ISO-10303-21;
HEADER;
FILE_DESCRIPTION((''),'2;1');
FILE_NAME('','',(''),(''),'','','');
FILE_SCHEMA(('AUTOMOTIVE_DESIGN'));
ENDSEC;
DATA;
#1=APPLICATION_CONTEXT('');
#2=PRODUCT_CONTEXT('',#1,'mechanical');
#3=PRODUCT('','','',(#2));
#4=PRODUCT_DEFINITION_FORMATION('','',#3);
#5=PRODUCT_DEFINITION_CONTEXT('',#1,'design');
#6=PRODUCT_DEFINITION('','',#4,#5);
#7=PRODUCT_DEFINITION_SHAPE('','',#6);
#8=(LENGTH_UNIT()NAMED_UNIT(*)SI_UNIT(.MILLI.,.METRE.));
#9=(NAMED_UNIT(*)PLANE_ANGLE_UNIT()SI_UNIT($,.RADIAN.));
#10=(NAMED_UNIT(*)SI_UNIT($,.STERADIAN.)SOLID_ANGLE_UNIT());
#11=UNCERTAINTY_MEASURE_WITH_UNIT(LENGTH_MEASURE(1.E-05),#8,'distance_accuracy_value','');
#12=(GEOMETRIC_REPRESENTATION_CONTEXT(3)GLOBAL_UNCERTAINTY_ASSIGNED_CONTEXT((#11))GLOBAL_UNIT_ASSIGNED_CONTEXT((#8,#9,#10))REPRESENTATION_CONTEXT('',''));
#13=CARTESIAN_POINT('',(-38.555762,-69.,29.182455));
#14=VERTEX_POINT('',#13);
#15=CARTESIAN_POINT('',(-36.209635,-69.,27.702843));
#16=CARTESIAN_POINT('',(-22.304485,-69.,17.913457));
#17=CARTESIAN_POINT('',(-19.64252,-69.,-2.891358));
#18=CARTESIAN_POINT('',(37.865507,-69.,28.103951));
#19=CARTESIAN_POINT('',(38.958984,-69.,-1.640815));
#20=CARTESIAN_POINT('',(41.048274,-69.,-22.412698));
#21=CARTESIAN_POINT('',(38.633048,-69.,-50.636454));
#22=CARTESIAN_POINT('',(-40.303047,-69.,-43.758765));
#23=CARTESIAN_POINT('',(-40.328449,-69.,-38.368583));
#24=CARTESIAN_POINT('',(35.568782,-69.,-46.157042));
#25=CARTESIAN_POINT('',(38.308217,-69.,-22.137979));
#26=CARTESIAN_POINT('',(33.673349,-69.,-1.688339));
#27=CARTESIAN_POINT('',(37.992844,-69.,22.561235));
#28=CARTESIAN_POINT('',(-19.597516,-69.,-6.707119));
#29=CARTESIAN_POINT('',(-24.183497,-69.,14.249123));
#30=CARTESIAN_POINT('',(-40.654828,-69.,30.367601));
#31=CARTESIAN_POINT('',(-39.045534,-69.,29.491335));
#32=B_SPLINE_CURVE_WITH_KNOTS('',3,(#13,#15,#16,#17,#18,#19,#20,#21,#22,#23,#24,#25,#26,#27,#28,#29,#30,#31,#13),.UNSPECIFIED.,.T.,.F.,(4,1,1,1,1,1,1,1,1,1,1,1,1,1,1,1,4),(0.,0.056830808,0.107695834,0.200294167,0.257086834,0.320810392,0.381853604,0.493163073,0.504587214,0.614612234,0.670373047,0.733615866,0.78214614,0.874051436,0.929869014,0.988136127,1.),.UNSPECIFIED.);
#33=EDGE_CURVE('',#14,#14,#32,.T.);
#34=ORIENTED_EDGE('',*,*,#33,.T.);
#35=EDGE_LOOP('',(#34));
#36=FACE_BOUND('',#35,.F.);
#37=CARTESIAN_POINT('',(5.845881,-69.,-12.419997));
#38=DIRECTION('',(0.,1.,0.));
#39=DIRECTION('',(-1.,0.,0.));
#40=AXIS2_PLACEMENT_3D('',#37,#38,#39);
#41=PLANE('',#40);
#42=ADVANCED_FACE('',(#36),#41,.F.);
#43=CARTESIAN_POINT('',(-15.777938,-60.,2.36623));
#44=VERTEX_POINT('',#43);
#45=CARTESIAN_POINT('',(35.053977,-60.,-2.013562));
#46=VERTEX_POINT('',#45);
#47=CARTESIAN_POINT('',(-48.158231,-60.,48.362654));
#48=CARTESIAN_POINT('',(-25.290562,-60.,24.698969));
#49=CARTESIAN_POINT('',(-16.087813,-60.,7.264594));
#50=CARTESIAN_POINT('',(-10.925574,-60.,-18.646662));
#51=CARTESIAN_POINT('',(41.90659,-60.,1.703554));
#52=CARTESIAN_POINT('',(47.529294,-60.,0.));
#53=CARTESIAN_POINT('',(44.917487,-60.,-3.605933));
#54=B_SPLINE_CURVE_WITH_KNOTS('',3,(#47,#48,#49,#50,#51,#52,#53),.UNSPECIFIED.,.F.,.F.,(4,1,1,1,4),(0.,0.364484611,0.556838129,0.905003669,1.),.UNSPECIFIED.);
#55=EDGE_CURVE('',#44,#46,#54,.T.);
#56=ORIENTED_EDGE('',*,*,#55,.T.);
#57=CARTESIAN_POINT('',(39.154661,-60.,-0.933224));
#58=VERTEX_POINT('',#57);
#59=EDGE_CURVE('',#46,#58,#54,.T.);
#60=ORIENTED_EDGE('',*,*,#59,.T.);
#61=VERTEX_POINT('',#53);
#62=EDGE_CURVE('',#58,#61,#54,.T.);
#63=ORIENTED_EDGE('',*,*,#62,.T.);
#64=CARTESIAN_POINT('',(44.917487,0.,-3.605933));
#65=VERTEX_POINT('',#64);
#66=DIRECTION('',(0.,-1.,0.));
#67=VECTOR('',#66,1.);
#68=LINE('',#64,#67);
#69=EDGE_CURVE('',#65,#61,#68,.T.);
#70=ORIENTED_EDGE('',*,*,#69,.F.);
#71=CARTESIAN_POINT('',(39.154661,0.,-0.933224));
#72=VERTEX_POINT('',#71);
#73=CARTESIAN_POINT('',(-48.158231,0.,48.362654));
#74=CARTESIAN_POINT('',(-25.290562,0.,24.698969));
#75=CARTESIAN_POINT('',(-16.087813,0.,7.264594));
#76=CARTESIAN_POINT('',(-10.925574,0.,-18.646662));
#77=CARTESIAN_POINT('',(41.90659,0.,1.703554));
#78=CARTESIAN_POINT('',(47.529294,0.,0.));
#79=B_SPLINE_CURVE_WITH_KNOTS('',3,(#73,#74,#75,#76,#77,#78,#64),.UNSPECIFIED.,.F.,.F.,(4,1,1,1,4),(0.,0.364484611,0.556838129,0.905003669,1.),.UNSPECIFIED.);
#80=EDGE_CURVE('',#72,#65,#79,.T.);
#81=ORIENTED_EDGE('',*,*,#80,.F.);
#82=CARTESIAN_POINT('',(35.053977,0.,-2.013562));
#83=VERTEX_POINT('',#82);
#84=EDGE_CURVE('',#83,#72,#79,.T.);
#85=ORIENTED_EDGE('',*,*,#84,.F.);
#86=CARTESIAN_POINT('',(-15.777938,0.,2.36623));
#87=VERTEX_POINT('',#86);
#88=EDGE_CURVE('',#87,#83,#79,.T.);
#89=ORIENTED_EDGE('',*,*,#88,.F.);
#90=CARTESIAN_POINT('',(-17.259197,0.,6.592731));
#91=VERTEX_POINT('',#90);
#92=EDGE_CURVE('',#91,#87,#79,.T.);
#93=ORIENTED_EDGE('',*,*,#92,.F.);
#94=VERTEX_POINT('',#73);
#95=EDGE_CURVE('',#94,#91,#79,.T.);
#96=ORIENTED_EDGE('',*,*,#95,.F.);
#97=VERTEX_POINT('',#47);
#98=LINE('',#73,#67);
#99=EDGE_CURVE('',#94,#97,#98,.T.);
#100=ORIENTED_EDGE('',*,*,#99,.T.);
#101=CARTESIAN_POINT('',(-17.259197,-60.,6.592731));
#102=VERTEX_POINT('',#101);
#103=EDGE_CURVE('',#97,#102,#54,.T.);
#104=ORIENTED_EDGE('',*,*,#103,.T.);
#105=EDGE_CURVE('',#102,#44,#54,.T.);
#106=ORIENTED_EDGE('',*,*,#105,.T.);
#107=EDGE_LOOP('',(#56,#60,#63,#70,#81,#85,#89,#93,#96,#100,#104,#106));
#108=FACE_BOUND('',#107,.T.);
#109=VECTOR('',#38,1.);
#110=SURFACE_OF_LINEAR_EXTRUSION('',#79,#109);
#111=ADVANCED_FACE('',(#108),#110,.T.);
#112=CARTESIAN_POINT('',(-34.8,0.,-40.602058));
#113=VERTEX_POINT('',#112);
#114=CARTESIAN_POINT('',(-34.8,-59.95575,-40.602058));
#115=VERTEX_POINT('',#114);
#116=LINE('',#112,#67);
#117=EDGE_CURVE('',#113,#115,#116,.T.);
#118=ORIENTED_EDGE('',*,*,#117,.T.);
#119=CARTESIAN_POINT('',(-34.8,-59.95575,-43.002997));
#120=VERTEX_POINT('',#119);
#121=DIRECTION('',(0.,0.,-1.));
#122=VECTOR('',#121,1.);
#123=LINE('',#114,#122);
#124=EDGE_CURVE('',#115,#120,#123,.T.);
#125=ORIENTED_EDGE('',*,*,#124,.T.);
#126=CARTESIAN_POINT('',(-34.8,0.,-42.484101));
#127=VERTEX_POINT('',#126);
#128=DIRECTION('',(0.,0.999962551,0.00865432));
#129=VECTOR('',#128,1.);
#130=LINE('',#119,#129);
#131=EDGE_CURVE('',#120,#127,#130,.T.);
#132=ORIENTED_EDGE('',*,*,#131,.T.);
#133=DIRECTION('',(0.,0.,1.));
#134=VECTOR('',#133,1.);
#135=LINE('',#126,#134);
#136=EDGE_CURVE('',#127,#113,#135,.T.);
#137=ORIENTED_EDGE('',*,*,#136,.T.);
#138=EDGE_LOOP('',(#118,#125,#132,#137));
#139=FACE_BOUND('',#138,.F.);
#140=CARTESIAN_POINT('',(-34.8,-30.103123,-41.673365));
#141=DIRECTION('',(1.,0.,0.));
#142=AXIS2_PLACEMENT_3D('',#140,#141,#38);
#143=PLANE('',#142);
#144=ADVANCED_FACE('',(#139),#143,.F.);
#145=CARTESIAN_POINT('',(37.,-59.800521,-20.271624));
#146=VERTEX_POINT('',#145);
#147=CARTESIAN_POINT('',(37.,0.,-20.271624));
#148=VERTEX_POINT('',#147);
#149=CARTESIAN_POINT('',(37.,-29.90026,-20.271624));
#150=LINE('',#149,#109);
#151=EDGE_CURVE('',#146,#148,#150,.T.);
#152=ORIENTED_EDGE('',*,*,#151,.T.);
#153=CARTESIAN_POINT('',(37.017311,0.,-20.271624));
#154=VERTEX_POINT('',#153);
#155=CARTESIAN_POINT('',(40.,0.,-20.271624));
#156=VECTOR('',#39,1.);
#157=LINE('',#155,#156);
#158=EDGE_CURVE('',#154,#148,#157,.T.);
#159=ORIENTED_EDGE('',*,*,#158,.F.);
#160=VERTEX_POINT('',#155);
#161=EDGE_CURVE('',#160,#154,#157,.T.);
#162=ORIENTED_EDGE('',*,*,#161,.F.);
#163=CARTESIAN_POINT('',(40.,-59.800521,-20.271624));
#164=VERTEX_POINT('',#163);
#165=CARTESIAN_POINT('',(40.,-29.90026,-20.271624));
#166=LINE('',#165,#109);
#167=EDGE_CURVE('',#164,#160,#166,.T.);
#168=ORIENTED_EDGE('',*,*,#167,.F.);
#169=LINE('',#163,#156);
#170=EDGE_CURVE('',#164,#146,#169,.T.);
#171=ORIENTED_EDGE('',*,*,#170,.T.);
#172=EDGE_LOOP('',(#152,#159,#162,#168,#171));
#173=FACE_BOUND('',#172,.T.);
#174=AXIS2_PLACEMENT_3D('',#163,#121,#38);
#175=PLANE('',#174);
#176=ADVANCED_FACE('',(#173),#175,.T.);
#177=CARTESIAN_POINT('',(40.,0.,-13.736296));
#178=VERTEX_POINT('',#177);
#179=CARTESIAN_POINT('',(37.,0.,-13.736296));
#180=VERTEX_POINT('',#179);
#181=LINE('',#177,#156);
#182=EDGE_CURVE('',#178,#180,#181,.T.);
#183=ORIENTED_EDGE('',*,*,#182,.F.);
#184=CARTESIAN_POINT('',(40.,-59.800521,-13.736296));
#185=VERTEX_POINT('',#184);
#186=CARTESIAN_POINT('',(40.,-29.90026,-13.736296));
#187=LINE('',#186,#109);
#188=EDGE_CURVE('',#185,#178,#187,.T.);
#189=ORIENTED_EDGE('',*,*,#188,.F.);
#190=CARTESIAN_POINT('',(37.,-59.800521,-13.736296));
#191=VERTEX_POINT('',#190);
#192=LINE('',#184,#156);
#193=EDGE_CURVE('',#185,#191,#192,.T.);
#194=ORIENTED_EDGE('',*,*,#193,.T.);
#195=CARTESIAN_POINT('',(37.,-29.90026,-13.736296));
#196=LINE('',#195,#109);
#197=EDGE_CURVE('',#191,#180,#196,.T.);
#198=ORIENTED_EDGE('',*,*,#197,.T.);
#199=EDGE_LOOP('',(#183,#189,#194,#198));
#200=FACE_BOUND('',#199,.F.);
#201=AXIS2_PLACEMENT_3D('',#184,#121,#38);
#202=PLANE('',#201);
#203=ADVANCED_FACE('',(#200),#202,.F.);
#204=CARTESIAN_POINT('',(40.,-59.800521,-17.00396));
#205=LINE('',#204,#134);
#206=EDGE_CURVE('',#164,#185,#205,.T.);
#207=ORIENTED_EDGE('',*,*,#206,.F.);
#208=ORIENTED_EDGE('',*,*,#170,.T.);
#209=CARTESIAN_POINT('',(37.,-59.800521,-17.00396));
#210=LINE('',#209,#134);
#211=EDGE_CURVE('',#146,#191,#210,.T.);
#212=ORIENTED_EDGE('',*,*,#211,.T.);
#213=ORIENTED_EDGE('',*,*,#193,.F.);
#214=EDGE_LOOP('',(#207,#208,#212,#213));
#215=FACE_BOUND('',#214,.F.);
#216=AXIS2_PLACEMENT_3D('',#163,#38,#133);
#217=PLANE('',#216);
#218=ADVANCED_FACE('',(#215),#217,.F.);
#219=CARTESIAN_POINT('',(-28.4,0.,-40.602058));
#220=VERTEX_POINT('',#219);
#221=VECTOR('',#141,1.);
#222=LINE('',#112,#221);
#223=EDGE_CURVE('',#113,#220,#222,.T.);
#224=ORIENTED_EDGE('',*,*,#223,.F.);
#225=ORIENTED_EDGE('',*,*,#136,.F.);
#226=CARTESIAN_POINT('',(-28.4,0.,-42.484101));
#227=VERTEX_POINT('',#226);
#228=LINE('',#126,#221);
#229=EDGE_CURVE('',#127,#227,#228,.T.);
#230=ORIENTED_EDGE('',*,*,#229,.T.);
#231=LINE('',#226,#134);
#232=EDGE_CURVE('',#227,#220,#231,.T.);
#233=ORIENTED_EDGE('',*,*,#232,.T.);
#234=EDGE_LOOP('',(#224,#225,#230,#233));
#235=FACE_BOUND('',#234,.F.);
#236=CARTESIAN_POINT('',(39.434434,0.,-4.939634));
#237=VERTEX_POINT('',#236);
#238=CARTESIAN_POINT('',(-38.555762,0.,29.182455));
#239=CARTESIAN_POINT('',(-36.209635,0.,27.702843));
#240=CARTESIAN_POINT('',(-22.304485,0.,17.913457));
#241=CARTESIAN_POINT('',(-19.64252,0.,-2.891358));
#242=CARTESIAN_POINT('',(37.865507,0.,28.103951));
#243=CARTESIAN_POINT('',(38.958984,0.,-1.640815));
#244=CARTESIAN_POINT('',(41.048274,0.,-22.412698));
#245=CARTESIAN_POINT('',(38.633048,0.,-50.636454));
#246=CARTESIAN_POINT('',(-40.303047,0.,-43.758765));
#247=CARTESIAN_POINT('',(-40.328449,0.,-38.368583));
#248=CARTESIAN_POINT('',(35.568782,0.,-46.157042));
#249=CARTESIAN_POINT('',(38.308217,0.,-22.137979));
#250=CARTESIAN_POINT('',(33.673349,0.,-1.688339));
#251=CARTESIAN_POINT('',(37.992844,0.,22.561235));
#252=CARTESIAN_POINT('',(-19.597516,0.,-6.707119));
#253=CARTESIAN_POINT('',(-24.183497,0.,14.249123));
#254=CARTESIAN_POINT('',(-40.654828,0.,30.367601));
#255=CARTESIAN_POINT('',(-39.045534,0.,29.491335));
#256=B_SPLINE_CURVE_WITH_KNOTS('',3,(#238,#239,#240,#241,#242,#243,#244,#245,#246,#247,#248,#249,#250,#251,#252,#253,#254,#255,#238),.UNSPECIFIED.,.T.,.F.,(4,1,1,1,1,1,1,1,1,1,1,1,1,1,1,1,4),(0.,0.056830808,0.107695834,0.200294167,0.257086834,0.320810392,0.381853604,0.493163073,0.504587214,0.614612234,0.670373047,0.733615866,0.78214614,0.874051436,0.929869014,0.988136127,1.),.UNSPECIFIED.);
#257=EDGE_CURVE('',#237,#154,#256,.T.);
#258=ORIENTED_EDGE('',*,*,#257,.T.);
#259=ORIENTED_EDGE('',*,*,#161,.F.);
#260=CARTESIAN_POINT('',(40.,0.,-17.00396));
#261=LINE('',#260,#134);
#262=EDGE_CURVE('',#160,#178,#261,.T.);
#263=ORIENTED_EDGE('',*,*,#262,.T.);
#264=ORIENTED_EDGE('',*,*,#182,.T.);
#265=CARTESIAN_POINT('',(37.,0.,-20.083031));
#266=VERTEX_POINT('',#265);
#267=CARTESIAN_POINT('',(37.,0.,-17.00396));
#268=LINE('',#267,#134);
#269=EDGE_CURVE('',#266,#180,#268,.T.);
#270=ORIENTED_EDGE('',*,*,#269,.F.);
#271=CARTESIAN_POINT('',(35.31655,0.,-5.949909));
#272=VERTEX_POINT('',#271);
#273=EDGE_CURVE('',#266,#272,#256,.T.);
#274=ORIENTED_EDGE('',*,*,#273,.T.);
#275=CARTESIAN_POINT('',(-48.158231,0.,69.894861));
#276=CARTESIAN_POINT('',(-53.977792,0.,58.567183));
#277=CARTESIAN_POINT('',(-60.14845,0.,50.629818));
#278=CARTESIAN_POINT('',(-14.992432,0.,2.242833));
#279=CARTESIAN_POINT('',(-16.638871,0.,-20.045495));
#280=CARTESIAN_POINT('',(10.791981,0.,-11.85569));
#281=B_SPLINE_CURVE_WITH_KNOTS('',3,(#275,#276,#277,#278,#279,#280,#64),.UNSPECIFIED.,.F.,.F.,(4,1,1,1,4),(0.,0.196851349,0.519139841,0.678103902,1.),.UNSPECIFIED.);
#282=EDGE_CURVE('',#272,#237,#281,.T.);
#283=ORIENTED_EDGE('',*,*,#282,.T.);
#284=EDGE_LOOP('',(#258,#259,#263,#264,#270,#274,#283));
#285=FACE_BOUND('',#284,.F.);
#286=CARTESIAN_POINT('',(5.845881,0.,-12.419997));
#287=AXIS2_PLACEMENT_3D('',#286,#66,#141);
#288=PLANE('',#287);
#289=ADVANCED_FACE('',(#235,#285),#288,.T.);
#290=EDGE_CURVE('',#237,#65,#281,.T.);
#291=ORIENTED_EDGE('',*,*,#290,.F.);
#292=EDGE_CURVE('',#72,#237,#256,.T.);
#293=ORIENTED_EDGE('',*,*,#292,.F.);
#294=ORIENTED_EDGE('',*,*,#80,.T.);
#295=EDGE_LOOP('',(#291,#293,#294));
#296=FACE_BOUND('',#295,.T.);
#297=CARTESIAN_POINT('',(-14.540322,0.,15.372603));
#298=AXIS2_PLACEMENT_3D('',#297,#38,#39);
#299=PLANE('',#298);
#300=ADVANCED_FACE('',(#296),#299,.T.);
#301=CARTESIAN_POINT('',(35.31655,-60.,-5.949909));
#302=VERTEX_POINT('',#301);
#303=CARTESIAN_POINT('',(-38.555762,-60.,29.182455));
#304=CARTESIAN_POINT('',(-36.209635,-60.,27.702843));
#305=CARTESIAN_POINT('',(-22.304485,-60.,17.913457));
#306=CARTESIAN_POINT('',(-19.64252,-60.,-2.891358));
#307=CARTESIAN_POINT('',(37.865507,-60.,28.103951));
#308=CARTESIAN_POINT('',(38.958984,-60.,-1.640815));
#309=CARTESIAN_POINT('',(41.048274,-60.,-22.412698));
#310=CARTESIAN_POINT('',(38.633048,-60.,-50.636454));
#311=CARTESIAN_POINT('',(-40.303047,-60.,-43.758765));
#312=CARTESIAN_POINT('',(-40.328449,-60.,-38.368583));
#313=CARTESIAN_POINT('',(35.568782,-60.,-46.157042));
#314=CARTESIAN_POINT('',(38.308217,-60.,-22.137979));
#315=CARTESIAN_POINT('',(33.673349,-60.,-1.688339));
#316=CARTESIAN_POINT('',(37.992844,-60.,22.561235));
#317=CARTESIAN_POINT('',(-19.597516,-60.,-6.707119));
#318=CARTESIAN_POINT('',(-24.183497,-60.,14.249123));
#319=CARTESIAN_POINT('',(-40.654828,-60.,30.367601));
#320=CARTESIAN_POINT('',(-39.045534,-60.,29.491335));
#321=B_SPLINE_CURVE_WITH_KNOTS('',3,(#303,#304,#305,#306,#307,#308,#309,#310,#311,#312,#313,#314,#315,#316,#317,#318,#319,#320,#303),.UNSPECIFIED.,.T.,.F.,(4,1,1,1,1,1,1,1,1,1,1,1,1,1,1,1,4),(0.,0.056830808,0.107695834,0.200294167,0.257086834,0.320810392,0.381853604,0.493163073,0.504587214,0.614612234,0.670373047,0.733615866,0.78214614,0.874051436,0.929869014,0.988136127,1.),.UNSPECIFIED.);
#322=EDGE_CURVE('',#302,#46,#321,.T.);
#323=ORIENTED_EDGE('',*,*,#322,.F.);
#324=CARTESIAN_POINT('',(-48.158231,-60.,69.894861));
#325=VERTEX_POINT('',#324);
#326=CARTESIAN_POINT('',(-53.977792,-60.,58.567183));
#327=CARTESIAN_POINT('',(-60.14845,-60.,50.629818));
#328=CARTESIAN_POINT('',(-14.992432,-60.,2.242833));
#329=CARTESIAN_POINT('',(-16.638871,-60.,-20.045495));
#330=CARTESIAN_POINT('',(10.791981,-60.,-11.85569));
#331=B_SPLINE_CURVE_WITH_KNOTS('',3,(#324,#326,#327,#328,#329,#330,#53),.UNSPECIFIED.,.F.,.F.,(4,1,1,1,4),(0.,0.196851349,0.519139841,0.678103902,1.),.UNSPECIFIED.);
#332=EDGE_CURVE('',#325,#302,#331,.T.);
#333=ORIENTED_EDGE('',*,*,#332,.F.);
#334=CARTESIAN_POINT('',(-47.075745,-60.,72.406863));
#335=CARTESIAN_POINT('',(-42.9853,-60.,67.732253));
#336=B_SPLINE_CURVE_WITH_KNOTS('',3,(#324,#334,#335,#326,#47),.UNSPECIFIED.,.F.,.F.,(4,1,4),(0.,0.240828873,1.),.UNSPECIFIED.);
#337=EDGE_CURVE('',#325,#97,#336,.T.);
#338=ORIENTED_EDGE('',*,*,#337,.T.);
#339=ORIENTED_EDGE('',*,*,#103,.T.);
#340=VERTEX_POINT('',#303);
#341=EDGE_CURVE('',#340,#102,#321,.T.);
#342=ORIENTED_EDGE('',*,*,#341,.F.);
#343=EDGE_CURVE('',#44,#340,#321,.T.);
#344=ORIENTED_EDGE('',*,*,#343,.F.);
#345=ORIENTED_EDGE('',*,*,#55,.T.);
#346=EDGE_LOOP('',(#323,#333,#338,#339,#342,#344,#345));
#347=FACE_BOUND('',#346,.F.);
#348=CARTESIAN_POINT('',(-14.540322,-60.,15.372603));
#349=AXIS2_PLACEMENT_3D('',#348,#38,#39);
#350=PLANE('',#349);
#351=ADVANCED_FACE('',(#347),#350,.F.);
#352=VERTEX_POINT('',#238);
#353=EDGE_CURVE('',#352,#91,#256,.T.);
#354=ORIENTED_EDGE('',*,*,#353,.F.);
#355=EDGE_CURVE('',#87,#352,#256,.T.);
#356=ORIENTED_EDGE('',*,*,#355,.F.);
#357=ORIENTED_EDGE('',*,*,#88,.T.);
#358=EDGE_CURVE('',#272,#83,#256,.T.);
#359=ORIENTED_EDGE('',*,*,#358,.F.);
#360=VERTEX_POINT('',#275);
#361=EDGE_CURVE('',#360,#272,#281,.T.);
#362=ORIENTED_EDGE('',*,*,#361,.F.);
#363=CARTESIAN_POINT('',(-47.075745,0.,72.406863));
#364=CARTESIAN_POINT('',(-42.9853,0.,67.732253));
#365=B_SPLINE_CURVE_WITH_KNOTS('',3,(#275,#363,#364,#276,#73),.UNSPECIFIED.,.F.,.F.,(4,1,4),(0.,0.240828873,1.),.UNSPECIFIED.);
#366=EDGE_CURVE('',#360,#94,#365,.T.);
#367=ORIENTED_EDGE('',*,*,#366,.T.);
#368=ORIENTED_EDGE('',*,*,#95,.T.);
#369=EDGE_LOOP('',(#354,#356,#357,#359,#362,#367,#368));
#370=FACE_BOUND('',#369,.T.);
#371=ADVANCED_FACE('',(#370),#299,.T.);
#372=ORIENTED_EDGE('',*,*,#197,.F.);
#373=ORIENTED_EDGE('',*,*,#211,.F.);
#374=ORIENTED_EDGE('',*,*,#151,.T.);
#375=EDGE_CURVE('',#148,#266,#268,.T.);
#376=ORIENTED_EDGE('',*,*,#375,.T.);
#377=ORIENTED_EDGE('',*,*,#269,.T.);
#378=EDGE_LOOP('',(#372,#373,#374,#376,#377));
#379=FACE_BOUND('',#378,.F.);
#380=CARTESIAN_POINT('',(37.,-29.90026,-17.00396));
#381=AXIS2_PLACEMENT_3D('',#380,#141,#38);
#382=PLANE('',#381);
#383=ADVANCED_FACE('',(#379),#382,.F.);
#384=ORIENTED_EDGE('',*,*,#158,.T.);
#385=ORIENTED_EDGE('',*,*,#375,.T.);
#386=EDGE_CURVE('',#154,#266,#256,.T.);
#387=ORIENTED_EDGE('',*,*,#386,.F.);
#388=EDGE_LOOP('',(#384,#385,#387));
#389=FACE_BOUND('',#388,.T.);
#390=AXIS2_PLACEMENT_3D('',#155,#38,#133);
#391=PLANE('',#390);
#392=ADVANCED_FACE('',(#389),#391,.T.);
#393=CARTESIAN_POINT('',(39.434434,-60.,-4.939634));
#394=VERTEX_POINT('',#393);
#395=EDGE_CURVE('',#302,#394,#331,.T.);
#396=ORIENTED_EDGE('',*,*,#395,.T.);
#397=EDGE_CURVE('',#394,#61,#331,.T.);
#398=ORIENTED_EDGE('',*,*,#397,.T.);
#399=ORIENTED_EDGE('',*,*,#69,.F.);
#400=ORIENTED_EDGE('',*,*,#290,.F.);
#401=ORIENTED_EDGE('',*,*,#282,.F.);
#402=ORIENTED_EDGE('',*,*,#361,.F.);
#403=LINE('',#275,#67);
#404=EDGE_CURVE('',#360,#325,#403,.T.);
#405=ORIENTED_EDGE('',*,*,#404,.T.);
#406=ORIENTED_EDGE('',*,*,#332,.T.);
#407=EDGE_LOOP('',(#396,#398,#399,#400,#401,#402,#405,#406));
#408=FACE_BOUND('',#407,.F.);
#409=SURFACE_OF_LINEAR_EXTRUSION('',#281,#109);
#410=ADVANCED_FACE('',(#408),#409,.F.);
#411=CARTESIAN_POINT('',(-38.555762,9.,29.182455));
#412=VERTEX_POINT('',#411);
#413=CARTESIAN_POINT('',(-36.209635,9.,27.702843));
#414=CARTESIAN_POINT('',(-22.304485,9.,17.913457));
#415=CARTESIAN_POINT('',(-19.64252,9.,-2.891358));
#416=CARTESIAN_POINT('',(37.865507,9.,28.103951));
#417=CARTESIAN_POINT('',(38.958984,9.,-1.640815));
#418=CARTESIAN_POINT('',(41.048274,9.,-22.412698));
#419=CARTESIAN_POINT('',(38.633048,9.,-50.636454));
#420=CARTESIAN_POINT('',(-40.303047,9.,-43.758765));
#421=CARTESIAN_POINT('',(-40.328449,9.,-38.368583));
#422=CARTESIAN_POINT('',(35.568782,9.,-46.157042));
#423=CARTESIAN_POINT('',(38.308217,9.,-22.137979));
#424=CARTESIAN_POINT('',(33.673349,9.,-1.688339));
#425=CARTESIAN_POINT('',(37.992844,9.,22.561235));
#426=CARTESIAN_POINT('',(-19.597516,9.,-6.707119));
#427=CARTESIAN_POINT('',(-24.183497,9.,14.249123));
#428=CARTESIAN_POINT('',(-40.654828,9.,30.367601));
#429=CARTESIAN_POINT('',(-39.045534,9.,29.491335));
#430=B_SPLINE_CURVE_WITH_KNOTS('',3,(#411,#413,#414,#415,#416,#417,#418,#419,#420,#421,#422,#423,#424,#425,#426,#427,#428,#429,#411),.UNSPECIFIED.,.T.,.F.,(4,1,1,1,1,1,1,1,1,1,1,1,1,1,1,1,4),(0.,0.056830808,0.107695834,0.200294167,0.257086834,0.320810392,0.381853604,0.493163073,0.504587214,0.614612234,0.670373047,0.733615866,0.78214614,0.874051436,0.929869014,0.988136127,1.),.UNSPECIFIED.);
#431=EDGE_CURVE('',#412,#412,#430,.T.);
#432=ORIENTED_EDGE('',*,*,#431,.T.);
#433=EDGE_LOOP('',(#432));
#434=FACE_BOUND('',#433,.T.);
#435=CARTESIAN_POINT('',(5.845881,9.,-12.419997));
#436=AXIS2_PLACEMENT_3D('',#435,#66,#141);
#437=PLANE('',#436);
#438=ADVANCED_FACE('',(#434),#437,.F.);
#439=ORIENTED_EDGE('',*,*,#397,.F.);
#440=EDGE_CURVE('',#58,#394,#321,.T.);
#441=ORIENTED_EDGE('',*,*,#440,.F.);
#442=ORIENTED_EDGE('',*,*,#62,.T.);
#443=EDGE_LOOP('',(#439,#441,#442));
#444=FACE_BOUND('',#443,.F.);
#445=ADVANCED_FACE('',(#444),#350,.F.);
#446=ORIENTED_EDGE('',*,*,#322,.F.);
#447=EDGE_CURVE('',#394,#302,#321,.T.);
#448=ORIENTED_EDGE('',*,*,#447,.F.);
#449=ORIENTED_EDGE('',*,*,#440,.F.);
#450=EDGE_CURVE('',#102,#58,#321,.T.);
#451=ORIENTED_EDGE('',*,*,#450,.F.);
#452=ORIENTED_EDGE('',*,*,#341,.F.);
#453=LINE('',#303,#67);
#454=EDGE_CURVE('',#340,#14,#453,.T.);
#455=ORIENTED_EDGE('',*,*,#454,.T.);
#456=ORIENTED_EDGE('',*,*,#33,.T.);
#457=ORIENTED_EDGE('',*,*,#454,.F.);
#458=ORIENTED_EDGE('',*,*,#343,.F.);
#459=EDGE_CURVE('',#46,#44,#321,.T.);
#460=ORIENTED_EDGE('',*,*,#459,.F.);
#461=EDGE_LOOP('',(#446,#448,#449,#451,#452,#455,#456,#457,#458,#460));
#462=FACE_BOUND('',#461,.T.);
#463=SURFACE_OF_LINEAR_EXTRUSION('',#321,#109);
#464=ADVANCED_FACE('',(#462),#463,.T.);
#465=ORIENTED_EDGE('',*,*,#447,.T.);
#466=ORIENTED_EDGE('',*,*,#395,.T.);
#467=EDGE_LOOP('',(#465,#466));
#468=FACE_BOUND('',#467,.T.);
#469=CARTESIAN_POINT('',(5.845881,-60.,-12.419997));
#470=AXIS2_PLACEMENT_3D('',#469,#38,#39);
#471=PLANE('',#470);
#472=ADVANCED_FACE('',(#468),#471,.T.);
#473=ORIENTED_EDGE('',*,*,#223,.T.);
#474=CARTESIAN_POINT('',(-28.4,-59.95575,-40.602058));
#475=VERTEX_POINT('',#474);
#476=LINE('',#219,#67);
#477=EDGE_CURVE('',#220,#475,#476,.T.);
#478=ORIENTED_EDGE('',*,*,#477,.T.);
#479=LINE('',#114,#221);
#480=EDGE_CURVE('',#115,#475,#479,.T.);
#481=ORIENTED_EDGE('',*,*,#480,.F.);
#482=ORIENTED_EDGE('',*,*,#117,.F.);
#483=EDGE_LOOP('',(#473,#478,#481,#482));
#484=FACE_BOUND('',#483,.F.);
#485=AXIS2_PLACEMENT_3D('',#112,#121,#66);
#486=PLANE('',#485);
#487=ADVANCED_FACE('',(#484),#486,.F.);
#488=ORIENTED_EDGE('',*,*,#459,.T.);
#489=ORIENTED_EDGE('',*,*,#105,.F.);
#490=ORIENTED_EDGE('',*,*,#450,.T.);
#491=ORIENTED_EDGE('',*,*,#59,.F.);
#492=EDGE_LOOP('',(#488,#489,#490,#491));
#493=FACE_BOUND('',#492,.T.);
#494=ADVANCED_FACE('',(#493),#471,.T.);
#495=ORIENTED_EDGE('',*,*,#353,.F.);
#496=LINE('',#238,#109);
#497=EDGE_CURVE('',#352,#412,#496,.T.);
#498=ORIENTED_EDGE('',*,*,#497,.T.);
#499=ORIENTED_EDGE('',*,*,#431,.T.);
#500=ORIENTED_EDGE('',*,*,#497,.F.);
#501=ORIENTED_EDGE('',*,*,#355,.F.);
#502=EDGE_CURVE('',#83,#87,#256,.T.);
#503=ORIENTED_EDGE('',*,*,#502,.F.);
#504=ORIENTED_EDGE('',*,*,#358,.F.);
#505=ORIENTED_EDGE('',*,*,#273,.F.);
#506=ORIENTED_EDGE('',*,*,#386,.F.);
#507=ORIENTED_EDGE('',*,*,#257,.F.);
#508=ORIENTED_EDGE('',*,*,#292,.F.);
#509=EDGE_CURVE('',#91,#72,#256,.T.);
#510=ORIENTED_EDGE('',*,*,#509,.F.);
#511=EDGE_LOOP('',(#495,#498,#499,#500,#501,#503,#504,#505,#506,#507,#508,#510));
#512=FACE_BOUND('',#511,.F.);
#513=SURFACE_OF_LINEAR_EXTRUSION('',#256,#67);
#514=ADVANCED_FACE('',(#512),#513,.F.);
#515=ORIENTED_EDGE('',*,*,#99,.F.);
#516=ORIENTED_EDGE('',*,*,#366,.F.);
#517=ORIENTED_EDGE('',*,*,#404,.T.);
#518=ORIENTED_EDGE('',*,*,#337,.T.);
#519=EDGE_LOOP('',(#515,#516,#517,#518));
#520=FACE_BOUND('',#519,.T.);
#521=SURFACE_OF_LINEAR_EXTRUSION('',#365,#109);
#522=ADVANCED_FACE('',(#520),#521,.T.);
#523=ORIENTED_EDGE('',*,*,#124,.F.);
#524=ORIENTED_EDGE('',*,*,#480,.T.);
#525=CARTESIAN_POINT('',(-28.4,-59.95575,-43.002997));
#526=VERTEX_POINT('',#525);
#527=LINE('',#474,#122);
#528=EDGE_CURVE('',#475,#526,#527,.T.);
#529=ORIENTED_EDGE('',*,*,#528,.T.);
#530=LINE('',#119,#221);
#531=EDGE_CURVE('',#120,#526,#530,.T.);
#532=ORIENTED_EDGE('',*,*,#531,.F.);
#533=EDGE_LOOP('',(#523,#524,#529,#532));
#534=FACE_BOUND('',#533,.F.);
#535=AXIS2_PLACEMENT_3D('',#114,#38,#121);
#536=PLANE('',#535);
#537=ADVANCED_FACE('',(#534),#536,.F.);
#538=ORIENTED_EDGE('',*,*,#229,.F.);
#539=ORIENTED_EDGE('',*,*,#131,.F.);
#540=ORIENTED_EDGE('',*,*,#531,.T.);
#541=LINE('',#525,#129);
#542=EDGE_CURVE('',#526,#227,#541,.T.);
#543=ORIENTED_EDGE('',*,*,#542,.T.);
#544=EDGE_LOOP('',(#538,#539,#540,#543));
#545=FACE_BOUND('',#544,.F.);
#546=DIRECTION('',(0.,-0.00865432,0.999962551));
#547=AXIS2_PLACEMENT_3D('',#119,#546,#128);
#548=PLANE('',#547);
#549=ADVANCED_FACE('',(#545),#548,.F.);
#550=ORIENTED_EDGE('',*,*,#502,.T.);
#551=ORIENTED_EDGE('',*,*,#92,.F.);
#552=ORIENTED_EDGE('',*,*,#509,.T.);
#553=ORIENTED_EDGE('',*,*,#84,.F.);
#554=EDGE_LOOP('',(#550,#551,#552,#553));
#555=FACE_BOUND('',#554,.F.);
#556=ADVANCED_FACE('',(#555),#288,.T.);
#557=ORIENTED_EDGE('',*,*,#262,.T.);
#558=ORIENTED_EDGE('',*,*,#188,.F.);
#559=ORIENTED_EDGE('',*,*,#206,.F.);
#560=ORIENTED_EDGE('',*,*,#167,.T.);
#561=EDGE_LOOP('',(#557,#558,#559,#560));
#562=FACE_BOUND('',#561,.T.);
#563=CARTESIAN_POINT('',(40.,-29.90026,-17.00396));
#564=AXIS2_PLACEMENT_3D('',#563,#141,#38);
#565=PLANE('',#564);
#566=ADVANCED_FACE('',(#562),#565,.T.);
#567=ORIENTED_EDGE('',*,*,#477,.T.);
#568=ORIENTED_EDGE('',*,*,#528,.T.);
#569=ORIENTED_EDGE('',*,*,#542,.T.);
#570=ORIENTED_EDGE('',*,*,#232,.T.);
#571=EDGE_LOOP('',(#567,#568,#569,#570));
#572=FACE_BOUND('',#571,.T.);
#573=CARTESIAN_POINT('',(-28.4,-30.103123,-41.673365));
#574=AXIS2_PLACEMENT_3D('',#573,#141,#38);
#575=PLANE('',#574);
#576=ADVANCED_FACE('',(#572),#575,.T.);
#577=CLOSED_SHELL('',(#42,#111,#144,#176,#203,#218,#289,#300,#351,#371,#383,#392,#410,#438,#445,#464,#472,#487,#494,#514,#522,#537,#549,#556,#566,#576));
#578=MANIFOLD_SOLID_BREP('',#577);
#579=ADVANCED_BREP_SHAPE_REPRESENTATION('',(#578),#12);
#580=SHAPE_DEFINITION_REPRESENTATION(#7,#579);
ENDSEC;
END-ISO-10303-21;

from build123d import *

# Parameters (mm, degrees)
F1_DEPTH  = 60
F4_DEPTH  = 9
F8_W      = 59.8005205393
F8_H      = 6.5353279933
F9_DEPTH  = 3
F12_DEPTH = 6.4


with BuildPart() as f1:
    # F0 (on Front) → F1 (new body)
    with BuildSketch(Plane.XZ):
        with BuildLine():
            add(Edge.make_bspline(
                [(-48.1582314342, 69.894860807), (-47.0757446211, 72.4068629836), (-42.9852995036, 67.732253289), (-53.9777919365, 58.5671826952), (-48.1582314342, 48.3626536065)],
                knots=[0, 0, 0, 0, 0.2408288734, 1, 1, 1, 1], degree=3))
            add(Edge.make_bspline(
                [(-48.1582314342, 69.894860807), (-53.9777919365, 58.5671826952), (-60.1484499117, 50.6298178955), (-14.9924322715, 2.2428328564), (-16.6388713454, -20.0454953853), (10.7919805234, -11.8556902301), (44.9174871102, -3.6059327252)],
                knots=[0, 0, 0, 0, 0.1968513488, 0.5191398414, 0.6781039024, 1, 1, 1, 1], degree=3))
            add(Edge.make_bspline(
                [(-48.1582314342, 48.3626536065), (-25.2905618399, 24.6989689767), (-16.0878134668, 7.2645944272), (-10.9255744427, -18.6466619123), (41.9065900287, 1.7035542465), (47.5292944337, 0), (44.9174871102, -3.6059327252)],
                knots=[0, 0, 0, 0, 0.3644846114, 0.5568381289, 0.9050036686, 1, 1, 1, 1], degree=3))
        make_face()
    extrude(amount=F1_DEPTH)

    # F3 (on offset) → F4 (join)
    with BuildSketch(Plane.XZ.offset(60)):
        with BuildLine():
            add(Edge.make_bspline(
                [(-38.5557616188, 29.1824545043), (-36.2096345064, 27.7028428104), (-22.3044847539, 17.9134569597), (-19.6425202688, -2.8913581062), (37.8655066062, 28.1039514756), (38.9589841699, -1.6408151776), (41.0482735684, -22.4126978765), (38.6330476946, -50.6364539475), (-40.3030473926, -43.7587647721), (-40.328449077, -38.3685825123), (35.5687824575, -46.1570424478), (38.3082170985, -22.1379791319), (33.6733488111, -1.6883394979), (37.9928441442, 22.5612346005), (-19.5975157331, -6.7071185059), (-24.1834966847, 14.2491234622), (-40.6548278968, 30.367601052), (-39.0455339079, 29.4913349577), (-38.5557616188, 29.1824545043)],
                knots=[0, 0, 0, 0, 0.0568308084, 0.1076958336, 0.2002941668, 0.2570868343, 0.3208103925, 0.3818536036, 0.4931630728, 0.5045872143, 0.6146122344, 0.6703730473, 0.733615866, 0.7821461403, 0.8740514358, 0.9298690138, 0.9881361266, 1, 1, 1, 1], degree=3))
        make_face()
    extrude(amount=F4_DEPTH)

    # F6: F1 across plane


with BuildPart() as f1_1:
    add(f1.part)
    add(f1.part.mirror(Plane.XZ.offset(30)))

    # F8 (on offset) → F9 (join)
    with BuildSketch(Plane.YZ.offset(40)):
        with Locations((-29.9002602696, -17.0039595105)):
            Rectangle(F8_W, F8_H)
    extrude(amount=-F9_DEPTH)

    # F11 (on offset) → F12 (join)
    with BuildSketch(Plane.YZ.offset(-34.8)):
        Polygon((-59.9557496607, -40.6020581722), (-59.9557496607, -43.0029965937), (0, -42.484100908), (0, -40.6020581722), align=None)
    extrude(amount=F12_DEPTH)


solid = f1_1.part
